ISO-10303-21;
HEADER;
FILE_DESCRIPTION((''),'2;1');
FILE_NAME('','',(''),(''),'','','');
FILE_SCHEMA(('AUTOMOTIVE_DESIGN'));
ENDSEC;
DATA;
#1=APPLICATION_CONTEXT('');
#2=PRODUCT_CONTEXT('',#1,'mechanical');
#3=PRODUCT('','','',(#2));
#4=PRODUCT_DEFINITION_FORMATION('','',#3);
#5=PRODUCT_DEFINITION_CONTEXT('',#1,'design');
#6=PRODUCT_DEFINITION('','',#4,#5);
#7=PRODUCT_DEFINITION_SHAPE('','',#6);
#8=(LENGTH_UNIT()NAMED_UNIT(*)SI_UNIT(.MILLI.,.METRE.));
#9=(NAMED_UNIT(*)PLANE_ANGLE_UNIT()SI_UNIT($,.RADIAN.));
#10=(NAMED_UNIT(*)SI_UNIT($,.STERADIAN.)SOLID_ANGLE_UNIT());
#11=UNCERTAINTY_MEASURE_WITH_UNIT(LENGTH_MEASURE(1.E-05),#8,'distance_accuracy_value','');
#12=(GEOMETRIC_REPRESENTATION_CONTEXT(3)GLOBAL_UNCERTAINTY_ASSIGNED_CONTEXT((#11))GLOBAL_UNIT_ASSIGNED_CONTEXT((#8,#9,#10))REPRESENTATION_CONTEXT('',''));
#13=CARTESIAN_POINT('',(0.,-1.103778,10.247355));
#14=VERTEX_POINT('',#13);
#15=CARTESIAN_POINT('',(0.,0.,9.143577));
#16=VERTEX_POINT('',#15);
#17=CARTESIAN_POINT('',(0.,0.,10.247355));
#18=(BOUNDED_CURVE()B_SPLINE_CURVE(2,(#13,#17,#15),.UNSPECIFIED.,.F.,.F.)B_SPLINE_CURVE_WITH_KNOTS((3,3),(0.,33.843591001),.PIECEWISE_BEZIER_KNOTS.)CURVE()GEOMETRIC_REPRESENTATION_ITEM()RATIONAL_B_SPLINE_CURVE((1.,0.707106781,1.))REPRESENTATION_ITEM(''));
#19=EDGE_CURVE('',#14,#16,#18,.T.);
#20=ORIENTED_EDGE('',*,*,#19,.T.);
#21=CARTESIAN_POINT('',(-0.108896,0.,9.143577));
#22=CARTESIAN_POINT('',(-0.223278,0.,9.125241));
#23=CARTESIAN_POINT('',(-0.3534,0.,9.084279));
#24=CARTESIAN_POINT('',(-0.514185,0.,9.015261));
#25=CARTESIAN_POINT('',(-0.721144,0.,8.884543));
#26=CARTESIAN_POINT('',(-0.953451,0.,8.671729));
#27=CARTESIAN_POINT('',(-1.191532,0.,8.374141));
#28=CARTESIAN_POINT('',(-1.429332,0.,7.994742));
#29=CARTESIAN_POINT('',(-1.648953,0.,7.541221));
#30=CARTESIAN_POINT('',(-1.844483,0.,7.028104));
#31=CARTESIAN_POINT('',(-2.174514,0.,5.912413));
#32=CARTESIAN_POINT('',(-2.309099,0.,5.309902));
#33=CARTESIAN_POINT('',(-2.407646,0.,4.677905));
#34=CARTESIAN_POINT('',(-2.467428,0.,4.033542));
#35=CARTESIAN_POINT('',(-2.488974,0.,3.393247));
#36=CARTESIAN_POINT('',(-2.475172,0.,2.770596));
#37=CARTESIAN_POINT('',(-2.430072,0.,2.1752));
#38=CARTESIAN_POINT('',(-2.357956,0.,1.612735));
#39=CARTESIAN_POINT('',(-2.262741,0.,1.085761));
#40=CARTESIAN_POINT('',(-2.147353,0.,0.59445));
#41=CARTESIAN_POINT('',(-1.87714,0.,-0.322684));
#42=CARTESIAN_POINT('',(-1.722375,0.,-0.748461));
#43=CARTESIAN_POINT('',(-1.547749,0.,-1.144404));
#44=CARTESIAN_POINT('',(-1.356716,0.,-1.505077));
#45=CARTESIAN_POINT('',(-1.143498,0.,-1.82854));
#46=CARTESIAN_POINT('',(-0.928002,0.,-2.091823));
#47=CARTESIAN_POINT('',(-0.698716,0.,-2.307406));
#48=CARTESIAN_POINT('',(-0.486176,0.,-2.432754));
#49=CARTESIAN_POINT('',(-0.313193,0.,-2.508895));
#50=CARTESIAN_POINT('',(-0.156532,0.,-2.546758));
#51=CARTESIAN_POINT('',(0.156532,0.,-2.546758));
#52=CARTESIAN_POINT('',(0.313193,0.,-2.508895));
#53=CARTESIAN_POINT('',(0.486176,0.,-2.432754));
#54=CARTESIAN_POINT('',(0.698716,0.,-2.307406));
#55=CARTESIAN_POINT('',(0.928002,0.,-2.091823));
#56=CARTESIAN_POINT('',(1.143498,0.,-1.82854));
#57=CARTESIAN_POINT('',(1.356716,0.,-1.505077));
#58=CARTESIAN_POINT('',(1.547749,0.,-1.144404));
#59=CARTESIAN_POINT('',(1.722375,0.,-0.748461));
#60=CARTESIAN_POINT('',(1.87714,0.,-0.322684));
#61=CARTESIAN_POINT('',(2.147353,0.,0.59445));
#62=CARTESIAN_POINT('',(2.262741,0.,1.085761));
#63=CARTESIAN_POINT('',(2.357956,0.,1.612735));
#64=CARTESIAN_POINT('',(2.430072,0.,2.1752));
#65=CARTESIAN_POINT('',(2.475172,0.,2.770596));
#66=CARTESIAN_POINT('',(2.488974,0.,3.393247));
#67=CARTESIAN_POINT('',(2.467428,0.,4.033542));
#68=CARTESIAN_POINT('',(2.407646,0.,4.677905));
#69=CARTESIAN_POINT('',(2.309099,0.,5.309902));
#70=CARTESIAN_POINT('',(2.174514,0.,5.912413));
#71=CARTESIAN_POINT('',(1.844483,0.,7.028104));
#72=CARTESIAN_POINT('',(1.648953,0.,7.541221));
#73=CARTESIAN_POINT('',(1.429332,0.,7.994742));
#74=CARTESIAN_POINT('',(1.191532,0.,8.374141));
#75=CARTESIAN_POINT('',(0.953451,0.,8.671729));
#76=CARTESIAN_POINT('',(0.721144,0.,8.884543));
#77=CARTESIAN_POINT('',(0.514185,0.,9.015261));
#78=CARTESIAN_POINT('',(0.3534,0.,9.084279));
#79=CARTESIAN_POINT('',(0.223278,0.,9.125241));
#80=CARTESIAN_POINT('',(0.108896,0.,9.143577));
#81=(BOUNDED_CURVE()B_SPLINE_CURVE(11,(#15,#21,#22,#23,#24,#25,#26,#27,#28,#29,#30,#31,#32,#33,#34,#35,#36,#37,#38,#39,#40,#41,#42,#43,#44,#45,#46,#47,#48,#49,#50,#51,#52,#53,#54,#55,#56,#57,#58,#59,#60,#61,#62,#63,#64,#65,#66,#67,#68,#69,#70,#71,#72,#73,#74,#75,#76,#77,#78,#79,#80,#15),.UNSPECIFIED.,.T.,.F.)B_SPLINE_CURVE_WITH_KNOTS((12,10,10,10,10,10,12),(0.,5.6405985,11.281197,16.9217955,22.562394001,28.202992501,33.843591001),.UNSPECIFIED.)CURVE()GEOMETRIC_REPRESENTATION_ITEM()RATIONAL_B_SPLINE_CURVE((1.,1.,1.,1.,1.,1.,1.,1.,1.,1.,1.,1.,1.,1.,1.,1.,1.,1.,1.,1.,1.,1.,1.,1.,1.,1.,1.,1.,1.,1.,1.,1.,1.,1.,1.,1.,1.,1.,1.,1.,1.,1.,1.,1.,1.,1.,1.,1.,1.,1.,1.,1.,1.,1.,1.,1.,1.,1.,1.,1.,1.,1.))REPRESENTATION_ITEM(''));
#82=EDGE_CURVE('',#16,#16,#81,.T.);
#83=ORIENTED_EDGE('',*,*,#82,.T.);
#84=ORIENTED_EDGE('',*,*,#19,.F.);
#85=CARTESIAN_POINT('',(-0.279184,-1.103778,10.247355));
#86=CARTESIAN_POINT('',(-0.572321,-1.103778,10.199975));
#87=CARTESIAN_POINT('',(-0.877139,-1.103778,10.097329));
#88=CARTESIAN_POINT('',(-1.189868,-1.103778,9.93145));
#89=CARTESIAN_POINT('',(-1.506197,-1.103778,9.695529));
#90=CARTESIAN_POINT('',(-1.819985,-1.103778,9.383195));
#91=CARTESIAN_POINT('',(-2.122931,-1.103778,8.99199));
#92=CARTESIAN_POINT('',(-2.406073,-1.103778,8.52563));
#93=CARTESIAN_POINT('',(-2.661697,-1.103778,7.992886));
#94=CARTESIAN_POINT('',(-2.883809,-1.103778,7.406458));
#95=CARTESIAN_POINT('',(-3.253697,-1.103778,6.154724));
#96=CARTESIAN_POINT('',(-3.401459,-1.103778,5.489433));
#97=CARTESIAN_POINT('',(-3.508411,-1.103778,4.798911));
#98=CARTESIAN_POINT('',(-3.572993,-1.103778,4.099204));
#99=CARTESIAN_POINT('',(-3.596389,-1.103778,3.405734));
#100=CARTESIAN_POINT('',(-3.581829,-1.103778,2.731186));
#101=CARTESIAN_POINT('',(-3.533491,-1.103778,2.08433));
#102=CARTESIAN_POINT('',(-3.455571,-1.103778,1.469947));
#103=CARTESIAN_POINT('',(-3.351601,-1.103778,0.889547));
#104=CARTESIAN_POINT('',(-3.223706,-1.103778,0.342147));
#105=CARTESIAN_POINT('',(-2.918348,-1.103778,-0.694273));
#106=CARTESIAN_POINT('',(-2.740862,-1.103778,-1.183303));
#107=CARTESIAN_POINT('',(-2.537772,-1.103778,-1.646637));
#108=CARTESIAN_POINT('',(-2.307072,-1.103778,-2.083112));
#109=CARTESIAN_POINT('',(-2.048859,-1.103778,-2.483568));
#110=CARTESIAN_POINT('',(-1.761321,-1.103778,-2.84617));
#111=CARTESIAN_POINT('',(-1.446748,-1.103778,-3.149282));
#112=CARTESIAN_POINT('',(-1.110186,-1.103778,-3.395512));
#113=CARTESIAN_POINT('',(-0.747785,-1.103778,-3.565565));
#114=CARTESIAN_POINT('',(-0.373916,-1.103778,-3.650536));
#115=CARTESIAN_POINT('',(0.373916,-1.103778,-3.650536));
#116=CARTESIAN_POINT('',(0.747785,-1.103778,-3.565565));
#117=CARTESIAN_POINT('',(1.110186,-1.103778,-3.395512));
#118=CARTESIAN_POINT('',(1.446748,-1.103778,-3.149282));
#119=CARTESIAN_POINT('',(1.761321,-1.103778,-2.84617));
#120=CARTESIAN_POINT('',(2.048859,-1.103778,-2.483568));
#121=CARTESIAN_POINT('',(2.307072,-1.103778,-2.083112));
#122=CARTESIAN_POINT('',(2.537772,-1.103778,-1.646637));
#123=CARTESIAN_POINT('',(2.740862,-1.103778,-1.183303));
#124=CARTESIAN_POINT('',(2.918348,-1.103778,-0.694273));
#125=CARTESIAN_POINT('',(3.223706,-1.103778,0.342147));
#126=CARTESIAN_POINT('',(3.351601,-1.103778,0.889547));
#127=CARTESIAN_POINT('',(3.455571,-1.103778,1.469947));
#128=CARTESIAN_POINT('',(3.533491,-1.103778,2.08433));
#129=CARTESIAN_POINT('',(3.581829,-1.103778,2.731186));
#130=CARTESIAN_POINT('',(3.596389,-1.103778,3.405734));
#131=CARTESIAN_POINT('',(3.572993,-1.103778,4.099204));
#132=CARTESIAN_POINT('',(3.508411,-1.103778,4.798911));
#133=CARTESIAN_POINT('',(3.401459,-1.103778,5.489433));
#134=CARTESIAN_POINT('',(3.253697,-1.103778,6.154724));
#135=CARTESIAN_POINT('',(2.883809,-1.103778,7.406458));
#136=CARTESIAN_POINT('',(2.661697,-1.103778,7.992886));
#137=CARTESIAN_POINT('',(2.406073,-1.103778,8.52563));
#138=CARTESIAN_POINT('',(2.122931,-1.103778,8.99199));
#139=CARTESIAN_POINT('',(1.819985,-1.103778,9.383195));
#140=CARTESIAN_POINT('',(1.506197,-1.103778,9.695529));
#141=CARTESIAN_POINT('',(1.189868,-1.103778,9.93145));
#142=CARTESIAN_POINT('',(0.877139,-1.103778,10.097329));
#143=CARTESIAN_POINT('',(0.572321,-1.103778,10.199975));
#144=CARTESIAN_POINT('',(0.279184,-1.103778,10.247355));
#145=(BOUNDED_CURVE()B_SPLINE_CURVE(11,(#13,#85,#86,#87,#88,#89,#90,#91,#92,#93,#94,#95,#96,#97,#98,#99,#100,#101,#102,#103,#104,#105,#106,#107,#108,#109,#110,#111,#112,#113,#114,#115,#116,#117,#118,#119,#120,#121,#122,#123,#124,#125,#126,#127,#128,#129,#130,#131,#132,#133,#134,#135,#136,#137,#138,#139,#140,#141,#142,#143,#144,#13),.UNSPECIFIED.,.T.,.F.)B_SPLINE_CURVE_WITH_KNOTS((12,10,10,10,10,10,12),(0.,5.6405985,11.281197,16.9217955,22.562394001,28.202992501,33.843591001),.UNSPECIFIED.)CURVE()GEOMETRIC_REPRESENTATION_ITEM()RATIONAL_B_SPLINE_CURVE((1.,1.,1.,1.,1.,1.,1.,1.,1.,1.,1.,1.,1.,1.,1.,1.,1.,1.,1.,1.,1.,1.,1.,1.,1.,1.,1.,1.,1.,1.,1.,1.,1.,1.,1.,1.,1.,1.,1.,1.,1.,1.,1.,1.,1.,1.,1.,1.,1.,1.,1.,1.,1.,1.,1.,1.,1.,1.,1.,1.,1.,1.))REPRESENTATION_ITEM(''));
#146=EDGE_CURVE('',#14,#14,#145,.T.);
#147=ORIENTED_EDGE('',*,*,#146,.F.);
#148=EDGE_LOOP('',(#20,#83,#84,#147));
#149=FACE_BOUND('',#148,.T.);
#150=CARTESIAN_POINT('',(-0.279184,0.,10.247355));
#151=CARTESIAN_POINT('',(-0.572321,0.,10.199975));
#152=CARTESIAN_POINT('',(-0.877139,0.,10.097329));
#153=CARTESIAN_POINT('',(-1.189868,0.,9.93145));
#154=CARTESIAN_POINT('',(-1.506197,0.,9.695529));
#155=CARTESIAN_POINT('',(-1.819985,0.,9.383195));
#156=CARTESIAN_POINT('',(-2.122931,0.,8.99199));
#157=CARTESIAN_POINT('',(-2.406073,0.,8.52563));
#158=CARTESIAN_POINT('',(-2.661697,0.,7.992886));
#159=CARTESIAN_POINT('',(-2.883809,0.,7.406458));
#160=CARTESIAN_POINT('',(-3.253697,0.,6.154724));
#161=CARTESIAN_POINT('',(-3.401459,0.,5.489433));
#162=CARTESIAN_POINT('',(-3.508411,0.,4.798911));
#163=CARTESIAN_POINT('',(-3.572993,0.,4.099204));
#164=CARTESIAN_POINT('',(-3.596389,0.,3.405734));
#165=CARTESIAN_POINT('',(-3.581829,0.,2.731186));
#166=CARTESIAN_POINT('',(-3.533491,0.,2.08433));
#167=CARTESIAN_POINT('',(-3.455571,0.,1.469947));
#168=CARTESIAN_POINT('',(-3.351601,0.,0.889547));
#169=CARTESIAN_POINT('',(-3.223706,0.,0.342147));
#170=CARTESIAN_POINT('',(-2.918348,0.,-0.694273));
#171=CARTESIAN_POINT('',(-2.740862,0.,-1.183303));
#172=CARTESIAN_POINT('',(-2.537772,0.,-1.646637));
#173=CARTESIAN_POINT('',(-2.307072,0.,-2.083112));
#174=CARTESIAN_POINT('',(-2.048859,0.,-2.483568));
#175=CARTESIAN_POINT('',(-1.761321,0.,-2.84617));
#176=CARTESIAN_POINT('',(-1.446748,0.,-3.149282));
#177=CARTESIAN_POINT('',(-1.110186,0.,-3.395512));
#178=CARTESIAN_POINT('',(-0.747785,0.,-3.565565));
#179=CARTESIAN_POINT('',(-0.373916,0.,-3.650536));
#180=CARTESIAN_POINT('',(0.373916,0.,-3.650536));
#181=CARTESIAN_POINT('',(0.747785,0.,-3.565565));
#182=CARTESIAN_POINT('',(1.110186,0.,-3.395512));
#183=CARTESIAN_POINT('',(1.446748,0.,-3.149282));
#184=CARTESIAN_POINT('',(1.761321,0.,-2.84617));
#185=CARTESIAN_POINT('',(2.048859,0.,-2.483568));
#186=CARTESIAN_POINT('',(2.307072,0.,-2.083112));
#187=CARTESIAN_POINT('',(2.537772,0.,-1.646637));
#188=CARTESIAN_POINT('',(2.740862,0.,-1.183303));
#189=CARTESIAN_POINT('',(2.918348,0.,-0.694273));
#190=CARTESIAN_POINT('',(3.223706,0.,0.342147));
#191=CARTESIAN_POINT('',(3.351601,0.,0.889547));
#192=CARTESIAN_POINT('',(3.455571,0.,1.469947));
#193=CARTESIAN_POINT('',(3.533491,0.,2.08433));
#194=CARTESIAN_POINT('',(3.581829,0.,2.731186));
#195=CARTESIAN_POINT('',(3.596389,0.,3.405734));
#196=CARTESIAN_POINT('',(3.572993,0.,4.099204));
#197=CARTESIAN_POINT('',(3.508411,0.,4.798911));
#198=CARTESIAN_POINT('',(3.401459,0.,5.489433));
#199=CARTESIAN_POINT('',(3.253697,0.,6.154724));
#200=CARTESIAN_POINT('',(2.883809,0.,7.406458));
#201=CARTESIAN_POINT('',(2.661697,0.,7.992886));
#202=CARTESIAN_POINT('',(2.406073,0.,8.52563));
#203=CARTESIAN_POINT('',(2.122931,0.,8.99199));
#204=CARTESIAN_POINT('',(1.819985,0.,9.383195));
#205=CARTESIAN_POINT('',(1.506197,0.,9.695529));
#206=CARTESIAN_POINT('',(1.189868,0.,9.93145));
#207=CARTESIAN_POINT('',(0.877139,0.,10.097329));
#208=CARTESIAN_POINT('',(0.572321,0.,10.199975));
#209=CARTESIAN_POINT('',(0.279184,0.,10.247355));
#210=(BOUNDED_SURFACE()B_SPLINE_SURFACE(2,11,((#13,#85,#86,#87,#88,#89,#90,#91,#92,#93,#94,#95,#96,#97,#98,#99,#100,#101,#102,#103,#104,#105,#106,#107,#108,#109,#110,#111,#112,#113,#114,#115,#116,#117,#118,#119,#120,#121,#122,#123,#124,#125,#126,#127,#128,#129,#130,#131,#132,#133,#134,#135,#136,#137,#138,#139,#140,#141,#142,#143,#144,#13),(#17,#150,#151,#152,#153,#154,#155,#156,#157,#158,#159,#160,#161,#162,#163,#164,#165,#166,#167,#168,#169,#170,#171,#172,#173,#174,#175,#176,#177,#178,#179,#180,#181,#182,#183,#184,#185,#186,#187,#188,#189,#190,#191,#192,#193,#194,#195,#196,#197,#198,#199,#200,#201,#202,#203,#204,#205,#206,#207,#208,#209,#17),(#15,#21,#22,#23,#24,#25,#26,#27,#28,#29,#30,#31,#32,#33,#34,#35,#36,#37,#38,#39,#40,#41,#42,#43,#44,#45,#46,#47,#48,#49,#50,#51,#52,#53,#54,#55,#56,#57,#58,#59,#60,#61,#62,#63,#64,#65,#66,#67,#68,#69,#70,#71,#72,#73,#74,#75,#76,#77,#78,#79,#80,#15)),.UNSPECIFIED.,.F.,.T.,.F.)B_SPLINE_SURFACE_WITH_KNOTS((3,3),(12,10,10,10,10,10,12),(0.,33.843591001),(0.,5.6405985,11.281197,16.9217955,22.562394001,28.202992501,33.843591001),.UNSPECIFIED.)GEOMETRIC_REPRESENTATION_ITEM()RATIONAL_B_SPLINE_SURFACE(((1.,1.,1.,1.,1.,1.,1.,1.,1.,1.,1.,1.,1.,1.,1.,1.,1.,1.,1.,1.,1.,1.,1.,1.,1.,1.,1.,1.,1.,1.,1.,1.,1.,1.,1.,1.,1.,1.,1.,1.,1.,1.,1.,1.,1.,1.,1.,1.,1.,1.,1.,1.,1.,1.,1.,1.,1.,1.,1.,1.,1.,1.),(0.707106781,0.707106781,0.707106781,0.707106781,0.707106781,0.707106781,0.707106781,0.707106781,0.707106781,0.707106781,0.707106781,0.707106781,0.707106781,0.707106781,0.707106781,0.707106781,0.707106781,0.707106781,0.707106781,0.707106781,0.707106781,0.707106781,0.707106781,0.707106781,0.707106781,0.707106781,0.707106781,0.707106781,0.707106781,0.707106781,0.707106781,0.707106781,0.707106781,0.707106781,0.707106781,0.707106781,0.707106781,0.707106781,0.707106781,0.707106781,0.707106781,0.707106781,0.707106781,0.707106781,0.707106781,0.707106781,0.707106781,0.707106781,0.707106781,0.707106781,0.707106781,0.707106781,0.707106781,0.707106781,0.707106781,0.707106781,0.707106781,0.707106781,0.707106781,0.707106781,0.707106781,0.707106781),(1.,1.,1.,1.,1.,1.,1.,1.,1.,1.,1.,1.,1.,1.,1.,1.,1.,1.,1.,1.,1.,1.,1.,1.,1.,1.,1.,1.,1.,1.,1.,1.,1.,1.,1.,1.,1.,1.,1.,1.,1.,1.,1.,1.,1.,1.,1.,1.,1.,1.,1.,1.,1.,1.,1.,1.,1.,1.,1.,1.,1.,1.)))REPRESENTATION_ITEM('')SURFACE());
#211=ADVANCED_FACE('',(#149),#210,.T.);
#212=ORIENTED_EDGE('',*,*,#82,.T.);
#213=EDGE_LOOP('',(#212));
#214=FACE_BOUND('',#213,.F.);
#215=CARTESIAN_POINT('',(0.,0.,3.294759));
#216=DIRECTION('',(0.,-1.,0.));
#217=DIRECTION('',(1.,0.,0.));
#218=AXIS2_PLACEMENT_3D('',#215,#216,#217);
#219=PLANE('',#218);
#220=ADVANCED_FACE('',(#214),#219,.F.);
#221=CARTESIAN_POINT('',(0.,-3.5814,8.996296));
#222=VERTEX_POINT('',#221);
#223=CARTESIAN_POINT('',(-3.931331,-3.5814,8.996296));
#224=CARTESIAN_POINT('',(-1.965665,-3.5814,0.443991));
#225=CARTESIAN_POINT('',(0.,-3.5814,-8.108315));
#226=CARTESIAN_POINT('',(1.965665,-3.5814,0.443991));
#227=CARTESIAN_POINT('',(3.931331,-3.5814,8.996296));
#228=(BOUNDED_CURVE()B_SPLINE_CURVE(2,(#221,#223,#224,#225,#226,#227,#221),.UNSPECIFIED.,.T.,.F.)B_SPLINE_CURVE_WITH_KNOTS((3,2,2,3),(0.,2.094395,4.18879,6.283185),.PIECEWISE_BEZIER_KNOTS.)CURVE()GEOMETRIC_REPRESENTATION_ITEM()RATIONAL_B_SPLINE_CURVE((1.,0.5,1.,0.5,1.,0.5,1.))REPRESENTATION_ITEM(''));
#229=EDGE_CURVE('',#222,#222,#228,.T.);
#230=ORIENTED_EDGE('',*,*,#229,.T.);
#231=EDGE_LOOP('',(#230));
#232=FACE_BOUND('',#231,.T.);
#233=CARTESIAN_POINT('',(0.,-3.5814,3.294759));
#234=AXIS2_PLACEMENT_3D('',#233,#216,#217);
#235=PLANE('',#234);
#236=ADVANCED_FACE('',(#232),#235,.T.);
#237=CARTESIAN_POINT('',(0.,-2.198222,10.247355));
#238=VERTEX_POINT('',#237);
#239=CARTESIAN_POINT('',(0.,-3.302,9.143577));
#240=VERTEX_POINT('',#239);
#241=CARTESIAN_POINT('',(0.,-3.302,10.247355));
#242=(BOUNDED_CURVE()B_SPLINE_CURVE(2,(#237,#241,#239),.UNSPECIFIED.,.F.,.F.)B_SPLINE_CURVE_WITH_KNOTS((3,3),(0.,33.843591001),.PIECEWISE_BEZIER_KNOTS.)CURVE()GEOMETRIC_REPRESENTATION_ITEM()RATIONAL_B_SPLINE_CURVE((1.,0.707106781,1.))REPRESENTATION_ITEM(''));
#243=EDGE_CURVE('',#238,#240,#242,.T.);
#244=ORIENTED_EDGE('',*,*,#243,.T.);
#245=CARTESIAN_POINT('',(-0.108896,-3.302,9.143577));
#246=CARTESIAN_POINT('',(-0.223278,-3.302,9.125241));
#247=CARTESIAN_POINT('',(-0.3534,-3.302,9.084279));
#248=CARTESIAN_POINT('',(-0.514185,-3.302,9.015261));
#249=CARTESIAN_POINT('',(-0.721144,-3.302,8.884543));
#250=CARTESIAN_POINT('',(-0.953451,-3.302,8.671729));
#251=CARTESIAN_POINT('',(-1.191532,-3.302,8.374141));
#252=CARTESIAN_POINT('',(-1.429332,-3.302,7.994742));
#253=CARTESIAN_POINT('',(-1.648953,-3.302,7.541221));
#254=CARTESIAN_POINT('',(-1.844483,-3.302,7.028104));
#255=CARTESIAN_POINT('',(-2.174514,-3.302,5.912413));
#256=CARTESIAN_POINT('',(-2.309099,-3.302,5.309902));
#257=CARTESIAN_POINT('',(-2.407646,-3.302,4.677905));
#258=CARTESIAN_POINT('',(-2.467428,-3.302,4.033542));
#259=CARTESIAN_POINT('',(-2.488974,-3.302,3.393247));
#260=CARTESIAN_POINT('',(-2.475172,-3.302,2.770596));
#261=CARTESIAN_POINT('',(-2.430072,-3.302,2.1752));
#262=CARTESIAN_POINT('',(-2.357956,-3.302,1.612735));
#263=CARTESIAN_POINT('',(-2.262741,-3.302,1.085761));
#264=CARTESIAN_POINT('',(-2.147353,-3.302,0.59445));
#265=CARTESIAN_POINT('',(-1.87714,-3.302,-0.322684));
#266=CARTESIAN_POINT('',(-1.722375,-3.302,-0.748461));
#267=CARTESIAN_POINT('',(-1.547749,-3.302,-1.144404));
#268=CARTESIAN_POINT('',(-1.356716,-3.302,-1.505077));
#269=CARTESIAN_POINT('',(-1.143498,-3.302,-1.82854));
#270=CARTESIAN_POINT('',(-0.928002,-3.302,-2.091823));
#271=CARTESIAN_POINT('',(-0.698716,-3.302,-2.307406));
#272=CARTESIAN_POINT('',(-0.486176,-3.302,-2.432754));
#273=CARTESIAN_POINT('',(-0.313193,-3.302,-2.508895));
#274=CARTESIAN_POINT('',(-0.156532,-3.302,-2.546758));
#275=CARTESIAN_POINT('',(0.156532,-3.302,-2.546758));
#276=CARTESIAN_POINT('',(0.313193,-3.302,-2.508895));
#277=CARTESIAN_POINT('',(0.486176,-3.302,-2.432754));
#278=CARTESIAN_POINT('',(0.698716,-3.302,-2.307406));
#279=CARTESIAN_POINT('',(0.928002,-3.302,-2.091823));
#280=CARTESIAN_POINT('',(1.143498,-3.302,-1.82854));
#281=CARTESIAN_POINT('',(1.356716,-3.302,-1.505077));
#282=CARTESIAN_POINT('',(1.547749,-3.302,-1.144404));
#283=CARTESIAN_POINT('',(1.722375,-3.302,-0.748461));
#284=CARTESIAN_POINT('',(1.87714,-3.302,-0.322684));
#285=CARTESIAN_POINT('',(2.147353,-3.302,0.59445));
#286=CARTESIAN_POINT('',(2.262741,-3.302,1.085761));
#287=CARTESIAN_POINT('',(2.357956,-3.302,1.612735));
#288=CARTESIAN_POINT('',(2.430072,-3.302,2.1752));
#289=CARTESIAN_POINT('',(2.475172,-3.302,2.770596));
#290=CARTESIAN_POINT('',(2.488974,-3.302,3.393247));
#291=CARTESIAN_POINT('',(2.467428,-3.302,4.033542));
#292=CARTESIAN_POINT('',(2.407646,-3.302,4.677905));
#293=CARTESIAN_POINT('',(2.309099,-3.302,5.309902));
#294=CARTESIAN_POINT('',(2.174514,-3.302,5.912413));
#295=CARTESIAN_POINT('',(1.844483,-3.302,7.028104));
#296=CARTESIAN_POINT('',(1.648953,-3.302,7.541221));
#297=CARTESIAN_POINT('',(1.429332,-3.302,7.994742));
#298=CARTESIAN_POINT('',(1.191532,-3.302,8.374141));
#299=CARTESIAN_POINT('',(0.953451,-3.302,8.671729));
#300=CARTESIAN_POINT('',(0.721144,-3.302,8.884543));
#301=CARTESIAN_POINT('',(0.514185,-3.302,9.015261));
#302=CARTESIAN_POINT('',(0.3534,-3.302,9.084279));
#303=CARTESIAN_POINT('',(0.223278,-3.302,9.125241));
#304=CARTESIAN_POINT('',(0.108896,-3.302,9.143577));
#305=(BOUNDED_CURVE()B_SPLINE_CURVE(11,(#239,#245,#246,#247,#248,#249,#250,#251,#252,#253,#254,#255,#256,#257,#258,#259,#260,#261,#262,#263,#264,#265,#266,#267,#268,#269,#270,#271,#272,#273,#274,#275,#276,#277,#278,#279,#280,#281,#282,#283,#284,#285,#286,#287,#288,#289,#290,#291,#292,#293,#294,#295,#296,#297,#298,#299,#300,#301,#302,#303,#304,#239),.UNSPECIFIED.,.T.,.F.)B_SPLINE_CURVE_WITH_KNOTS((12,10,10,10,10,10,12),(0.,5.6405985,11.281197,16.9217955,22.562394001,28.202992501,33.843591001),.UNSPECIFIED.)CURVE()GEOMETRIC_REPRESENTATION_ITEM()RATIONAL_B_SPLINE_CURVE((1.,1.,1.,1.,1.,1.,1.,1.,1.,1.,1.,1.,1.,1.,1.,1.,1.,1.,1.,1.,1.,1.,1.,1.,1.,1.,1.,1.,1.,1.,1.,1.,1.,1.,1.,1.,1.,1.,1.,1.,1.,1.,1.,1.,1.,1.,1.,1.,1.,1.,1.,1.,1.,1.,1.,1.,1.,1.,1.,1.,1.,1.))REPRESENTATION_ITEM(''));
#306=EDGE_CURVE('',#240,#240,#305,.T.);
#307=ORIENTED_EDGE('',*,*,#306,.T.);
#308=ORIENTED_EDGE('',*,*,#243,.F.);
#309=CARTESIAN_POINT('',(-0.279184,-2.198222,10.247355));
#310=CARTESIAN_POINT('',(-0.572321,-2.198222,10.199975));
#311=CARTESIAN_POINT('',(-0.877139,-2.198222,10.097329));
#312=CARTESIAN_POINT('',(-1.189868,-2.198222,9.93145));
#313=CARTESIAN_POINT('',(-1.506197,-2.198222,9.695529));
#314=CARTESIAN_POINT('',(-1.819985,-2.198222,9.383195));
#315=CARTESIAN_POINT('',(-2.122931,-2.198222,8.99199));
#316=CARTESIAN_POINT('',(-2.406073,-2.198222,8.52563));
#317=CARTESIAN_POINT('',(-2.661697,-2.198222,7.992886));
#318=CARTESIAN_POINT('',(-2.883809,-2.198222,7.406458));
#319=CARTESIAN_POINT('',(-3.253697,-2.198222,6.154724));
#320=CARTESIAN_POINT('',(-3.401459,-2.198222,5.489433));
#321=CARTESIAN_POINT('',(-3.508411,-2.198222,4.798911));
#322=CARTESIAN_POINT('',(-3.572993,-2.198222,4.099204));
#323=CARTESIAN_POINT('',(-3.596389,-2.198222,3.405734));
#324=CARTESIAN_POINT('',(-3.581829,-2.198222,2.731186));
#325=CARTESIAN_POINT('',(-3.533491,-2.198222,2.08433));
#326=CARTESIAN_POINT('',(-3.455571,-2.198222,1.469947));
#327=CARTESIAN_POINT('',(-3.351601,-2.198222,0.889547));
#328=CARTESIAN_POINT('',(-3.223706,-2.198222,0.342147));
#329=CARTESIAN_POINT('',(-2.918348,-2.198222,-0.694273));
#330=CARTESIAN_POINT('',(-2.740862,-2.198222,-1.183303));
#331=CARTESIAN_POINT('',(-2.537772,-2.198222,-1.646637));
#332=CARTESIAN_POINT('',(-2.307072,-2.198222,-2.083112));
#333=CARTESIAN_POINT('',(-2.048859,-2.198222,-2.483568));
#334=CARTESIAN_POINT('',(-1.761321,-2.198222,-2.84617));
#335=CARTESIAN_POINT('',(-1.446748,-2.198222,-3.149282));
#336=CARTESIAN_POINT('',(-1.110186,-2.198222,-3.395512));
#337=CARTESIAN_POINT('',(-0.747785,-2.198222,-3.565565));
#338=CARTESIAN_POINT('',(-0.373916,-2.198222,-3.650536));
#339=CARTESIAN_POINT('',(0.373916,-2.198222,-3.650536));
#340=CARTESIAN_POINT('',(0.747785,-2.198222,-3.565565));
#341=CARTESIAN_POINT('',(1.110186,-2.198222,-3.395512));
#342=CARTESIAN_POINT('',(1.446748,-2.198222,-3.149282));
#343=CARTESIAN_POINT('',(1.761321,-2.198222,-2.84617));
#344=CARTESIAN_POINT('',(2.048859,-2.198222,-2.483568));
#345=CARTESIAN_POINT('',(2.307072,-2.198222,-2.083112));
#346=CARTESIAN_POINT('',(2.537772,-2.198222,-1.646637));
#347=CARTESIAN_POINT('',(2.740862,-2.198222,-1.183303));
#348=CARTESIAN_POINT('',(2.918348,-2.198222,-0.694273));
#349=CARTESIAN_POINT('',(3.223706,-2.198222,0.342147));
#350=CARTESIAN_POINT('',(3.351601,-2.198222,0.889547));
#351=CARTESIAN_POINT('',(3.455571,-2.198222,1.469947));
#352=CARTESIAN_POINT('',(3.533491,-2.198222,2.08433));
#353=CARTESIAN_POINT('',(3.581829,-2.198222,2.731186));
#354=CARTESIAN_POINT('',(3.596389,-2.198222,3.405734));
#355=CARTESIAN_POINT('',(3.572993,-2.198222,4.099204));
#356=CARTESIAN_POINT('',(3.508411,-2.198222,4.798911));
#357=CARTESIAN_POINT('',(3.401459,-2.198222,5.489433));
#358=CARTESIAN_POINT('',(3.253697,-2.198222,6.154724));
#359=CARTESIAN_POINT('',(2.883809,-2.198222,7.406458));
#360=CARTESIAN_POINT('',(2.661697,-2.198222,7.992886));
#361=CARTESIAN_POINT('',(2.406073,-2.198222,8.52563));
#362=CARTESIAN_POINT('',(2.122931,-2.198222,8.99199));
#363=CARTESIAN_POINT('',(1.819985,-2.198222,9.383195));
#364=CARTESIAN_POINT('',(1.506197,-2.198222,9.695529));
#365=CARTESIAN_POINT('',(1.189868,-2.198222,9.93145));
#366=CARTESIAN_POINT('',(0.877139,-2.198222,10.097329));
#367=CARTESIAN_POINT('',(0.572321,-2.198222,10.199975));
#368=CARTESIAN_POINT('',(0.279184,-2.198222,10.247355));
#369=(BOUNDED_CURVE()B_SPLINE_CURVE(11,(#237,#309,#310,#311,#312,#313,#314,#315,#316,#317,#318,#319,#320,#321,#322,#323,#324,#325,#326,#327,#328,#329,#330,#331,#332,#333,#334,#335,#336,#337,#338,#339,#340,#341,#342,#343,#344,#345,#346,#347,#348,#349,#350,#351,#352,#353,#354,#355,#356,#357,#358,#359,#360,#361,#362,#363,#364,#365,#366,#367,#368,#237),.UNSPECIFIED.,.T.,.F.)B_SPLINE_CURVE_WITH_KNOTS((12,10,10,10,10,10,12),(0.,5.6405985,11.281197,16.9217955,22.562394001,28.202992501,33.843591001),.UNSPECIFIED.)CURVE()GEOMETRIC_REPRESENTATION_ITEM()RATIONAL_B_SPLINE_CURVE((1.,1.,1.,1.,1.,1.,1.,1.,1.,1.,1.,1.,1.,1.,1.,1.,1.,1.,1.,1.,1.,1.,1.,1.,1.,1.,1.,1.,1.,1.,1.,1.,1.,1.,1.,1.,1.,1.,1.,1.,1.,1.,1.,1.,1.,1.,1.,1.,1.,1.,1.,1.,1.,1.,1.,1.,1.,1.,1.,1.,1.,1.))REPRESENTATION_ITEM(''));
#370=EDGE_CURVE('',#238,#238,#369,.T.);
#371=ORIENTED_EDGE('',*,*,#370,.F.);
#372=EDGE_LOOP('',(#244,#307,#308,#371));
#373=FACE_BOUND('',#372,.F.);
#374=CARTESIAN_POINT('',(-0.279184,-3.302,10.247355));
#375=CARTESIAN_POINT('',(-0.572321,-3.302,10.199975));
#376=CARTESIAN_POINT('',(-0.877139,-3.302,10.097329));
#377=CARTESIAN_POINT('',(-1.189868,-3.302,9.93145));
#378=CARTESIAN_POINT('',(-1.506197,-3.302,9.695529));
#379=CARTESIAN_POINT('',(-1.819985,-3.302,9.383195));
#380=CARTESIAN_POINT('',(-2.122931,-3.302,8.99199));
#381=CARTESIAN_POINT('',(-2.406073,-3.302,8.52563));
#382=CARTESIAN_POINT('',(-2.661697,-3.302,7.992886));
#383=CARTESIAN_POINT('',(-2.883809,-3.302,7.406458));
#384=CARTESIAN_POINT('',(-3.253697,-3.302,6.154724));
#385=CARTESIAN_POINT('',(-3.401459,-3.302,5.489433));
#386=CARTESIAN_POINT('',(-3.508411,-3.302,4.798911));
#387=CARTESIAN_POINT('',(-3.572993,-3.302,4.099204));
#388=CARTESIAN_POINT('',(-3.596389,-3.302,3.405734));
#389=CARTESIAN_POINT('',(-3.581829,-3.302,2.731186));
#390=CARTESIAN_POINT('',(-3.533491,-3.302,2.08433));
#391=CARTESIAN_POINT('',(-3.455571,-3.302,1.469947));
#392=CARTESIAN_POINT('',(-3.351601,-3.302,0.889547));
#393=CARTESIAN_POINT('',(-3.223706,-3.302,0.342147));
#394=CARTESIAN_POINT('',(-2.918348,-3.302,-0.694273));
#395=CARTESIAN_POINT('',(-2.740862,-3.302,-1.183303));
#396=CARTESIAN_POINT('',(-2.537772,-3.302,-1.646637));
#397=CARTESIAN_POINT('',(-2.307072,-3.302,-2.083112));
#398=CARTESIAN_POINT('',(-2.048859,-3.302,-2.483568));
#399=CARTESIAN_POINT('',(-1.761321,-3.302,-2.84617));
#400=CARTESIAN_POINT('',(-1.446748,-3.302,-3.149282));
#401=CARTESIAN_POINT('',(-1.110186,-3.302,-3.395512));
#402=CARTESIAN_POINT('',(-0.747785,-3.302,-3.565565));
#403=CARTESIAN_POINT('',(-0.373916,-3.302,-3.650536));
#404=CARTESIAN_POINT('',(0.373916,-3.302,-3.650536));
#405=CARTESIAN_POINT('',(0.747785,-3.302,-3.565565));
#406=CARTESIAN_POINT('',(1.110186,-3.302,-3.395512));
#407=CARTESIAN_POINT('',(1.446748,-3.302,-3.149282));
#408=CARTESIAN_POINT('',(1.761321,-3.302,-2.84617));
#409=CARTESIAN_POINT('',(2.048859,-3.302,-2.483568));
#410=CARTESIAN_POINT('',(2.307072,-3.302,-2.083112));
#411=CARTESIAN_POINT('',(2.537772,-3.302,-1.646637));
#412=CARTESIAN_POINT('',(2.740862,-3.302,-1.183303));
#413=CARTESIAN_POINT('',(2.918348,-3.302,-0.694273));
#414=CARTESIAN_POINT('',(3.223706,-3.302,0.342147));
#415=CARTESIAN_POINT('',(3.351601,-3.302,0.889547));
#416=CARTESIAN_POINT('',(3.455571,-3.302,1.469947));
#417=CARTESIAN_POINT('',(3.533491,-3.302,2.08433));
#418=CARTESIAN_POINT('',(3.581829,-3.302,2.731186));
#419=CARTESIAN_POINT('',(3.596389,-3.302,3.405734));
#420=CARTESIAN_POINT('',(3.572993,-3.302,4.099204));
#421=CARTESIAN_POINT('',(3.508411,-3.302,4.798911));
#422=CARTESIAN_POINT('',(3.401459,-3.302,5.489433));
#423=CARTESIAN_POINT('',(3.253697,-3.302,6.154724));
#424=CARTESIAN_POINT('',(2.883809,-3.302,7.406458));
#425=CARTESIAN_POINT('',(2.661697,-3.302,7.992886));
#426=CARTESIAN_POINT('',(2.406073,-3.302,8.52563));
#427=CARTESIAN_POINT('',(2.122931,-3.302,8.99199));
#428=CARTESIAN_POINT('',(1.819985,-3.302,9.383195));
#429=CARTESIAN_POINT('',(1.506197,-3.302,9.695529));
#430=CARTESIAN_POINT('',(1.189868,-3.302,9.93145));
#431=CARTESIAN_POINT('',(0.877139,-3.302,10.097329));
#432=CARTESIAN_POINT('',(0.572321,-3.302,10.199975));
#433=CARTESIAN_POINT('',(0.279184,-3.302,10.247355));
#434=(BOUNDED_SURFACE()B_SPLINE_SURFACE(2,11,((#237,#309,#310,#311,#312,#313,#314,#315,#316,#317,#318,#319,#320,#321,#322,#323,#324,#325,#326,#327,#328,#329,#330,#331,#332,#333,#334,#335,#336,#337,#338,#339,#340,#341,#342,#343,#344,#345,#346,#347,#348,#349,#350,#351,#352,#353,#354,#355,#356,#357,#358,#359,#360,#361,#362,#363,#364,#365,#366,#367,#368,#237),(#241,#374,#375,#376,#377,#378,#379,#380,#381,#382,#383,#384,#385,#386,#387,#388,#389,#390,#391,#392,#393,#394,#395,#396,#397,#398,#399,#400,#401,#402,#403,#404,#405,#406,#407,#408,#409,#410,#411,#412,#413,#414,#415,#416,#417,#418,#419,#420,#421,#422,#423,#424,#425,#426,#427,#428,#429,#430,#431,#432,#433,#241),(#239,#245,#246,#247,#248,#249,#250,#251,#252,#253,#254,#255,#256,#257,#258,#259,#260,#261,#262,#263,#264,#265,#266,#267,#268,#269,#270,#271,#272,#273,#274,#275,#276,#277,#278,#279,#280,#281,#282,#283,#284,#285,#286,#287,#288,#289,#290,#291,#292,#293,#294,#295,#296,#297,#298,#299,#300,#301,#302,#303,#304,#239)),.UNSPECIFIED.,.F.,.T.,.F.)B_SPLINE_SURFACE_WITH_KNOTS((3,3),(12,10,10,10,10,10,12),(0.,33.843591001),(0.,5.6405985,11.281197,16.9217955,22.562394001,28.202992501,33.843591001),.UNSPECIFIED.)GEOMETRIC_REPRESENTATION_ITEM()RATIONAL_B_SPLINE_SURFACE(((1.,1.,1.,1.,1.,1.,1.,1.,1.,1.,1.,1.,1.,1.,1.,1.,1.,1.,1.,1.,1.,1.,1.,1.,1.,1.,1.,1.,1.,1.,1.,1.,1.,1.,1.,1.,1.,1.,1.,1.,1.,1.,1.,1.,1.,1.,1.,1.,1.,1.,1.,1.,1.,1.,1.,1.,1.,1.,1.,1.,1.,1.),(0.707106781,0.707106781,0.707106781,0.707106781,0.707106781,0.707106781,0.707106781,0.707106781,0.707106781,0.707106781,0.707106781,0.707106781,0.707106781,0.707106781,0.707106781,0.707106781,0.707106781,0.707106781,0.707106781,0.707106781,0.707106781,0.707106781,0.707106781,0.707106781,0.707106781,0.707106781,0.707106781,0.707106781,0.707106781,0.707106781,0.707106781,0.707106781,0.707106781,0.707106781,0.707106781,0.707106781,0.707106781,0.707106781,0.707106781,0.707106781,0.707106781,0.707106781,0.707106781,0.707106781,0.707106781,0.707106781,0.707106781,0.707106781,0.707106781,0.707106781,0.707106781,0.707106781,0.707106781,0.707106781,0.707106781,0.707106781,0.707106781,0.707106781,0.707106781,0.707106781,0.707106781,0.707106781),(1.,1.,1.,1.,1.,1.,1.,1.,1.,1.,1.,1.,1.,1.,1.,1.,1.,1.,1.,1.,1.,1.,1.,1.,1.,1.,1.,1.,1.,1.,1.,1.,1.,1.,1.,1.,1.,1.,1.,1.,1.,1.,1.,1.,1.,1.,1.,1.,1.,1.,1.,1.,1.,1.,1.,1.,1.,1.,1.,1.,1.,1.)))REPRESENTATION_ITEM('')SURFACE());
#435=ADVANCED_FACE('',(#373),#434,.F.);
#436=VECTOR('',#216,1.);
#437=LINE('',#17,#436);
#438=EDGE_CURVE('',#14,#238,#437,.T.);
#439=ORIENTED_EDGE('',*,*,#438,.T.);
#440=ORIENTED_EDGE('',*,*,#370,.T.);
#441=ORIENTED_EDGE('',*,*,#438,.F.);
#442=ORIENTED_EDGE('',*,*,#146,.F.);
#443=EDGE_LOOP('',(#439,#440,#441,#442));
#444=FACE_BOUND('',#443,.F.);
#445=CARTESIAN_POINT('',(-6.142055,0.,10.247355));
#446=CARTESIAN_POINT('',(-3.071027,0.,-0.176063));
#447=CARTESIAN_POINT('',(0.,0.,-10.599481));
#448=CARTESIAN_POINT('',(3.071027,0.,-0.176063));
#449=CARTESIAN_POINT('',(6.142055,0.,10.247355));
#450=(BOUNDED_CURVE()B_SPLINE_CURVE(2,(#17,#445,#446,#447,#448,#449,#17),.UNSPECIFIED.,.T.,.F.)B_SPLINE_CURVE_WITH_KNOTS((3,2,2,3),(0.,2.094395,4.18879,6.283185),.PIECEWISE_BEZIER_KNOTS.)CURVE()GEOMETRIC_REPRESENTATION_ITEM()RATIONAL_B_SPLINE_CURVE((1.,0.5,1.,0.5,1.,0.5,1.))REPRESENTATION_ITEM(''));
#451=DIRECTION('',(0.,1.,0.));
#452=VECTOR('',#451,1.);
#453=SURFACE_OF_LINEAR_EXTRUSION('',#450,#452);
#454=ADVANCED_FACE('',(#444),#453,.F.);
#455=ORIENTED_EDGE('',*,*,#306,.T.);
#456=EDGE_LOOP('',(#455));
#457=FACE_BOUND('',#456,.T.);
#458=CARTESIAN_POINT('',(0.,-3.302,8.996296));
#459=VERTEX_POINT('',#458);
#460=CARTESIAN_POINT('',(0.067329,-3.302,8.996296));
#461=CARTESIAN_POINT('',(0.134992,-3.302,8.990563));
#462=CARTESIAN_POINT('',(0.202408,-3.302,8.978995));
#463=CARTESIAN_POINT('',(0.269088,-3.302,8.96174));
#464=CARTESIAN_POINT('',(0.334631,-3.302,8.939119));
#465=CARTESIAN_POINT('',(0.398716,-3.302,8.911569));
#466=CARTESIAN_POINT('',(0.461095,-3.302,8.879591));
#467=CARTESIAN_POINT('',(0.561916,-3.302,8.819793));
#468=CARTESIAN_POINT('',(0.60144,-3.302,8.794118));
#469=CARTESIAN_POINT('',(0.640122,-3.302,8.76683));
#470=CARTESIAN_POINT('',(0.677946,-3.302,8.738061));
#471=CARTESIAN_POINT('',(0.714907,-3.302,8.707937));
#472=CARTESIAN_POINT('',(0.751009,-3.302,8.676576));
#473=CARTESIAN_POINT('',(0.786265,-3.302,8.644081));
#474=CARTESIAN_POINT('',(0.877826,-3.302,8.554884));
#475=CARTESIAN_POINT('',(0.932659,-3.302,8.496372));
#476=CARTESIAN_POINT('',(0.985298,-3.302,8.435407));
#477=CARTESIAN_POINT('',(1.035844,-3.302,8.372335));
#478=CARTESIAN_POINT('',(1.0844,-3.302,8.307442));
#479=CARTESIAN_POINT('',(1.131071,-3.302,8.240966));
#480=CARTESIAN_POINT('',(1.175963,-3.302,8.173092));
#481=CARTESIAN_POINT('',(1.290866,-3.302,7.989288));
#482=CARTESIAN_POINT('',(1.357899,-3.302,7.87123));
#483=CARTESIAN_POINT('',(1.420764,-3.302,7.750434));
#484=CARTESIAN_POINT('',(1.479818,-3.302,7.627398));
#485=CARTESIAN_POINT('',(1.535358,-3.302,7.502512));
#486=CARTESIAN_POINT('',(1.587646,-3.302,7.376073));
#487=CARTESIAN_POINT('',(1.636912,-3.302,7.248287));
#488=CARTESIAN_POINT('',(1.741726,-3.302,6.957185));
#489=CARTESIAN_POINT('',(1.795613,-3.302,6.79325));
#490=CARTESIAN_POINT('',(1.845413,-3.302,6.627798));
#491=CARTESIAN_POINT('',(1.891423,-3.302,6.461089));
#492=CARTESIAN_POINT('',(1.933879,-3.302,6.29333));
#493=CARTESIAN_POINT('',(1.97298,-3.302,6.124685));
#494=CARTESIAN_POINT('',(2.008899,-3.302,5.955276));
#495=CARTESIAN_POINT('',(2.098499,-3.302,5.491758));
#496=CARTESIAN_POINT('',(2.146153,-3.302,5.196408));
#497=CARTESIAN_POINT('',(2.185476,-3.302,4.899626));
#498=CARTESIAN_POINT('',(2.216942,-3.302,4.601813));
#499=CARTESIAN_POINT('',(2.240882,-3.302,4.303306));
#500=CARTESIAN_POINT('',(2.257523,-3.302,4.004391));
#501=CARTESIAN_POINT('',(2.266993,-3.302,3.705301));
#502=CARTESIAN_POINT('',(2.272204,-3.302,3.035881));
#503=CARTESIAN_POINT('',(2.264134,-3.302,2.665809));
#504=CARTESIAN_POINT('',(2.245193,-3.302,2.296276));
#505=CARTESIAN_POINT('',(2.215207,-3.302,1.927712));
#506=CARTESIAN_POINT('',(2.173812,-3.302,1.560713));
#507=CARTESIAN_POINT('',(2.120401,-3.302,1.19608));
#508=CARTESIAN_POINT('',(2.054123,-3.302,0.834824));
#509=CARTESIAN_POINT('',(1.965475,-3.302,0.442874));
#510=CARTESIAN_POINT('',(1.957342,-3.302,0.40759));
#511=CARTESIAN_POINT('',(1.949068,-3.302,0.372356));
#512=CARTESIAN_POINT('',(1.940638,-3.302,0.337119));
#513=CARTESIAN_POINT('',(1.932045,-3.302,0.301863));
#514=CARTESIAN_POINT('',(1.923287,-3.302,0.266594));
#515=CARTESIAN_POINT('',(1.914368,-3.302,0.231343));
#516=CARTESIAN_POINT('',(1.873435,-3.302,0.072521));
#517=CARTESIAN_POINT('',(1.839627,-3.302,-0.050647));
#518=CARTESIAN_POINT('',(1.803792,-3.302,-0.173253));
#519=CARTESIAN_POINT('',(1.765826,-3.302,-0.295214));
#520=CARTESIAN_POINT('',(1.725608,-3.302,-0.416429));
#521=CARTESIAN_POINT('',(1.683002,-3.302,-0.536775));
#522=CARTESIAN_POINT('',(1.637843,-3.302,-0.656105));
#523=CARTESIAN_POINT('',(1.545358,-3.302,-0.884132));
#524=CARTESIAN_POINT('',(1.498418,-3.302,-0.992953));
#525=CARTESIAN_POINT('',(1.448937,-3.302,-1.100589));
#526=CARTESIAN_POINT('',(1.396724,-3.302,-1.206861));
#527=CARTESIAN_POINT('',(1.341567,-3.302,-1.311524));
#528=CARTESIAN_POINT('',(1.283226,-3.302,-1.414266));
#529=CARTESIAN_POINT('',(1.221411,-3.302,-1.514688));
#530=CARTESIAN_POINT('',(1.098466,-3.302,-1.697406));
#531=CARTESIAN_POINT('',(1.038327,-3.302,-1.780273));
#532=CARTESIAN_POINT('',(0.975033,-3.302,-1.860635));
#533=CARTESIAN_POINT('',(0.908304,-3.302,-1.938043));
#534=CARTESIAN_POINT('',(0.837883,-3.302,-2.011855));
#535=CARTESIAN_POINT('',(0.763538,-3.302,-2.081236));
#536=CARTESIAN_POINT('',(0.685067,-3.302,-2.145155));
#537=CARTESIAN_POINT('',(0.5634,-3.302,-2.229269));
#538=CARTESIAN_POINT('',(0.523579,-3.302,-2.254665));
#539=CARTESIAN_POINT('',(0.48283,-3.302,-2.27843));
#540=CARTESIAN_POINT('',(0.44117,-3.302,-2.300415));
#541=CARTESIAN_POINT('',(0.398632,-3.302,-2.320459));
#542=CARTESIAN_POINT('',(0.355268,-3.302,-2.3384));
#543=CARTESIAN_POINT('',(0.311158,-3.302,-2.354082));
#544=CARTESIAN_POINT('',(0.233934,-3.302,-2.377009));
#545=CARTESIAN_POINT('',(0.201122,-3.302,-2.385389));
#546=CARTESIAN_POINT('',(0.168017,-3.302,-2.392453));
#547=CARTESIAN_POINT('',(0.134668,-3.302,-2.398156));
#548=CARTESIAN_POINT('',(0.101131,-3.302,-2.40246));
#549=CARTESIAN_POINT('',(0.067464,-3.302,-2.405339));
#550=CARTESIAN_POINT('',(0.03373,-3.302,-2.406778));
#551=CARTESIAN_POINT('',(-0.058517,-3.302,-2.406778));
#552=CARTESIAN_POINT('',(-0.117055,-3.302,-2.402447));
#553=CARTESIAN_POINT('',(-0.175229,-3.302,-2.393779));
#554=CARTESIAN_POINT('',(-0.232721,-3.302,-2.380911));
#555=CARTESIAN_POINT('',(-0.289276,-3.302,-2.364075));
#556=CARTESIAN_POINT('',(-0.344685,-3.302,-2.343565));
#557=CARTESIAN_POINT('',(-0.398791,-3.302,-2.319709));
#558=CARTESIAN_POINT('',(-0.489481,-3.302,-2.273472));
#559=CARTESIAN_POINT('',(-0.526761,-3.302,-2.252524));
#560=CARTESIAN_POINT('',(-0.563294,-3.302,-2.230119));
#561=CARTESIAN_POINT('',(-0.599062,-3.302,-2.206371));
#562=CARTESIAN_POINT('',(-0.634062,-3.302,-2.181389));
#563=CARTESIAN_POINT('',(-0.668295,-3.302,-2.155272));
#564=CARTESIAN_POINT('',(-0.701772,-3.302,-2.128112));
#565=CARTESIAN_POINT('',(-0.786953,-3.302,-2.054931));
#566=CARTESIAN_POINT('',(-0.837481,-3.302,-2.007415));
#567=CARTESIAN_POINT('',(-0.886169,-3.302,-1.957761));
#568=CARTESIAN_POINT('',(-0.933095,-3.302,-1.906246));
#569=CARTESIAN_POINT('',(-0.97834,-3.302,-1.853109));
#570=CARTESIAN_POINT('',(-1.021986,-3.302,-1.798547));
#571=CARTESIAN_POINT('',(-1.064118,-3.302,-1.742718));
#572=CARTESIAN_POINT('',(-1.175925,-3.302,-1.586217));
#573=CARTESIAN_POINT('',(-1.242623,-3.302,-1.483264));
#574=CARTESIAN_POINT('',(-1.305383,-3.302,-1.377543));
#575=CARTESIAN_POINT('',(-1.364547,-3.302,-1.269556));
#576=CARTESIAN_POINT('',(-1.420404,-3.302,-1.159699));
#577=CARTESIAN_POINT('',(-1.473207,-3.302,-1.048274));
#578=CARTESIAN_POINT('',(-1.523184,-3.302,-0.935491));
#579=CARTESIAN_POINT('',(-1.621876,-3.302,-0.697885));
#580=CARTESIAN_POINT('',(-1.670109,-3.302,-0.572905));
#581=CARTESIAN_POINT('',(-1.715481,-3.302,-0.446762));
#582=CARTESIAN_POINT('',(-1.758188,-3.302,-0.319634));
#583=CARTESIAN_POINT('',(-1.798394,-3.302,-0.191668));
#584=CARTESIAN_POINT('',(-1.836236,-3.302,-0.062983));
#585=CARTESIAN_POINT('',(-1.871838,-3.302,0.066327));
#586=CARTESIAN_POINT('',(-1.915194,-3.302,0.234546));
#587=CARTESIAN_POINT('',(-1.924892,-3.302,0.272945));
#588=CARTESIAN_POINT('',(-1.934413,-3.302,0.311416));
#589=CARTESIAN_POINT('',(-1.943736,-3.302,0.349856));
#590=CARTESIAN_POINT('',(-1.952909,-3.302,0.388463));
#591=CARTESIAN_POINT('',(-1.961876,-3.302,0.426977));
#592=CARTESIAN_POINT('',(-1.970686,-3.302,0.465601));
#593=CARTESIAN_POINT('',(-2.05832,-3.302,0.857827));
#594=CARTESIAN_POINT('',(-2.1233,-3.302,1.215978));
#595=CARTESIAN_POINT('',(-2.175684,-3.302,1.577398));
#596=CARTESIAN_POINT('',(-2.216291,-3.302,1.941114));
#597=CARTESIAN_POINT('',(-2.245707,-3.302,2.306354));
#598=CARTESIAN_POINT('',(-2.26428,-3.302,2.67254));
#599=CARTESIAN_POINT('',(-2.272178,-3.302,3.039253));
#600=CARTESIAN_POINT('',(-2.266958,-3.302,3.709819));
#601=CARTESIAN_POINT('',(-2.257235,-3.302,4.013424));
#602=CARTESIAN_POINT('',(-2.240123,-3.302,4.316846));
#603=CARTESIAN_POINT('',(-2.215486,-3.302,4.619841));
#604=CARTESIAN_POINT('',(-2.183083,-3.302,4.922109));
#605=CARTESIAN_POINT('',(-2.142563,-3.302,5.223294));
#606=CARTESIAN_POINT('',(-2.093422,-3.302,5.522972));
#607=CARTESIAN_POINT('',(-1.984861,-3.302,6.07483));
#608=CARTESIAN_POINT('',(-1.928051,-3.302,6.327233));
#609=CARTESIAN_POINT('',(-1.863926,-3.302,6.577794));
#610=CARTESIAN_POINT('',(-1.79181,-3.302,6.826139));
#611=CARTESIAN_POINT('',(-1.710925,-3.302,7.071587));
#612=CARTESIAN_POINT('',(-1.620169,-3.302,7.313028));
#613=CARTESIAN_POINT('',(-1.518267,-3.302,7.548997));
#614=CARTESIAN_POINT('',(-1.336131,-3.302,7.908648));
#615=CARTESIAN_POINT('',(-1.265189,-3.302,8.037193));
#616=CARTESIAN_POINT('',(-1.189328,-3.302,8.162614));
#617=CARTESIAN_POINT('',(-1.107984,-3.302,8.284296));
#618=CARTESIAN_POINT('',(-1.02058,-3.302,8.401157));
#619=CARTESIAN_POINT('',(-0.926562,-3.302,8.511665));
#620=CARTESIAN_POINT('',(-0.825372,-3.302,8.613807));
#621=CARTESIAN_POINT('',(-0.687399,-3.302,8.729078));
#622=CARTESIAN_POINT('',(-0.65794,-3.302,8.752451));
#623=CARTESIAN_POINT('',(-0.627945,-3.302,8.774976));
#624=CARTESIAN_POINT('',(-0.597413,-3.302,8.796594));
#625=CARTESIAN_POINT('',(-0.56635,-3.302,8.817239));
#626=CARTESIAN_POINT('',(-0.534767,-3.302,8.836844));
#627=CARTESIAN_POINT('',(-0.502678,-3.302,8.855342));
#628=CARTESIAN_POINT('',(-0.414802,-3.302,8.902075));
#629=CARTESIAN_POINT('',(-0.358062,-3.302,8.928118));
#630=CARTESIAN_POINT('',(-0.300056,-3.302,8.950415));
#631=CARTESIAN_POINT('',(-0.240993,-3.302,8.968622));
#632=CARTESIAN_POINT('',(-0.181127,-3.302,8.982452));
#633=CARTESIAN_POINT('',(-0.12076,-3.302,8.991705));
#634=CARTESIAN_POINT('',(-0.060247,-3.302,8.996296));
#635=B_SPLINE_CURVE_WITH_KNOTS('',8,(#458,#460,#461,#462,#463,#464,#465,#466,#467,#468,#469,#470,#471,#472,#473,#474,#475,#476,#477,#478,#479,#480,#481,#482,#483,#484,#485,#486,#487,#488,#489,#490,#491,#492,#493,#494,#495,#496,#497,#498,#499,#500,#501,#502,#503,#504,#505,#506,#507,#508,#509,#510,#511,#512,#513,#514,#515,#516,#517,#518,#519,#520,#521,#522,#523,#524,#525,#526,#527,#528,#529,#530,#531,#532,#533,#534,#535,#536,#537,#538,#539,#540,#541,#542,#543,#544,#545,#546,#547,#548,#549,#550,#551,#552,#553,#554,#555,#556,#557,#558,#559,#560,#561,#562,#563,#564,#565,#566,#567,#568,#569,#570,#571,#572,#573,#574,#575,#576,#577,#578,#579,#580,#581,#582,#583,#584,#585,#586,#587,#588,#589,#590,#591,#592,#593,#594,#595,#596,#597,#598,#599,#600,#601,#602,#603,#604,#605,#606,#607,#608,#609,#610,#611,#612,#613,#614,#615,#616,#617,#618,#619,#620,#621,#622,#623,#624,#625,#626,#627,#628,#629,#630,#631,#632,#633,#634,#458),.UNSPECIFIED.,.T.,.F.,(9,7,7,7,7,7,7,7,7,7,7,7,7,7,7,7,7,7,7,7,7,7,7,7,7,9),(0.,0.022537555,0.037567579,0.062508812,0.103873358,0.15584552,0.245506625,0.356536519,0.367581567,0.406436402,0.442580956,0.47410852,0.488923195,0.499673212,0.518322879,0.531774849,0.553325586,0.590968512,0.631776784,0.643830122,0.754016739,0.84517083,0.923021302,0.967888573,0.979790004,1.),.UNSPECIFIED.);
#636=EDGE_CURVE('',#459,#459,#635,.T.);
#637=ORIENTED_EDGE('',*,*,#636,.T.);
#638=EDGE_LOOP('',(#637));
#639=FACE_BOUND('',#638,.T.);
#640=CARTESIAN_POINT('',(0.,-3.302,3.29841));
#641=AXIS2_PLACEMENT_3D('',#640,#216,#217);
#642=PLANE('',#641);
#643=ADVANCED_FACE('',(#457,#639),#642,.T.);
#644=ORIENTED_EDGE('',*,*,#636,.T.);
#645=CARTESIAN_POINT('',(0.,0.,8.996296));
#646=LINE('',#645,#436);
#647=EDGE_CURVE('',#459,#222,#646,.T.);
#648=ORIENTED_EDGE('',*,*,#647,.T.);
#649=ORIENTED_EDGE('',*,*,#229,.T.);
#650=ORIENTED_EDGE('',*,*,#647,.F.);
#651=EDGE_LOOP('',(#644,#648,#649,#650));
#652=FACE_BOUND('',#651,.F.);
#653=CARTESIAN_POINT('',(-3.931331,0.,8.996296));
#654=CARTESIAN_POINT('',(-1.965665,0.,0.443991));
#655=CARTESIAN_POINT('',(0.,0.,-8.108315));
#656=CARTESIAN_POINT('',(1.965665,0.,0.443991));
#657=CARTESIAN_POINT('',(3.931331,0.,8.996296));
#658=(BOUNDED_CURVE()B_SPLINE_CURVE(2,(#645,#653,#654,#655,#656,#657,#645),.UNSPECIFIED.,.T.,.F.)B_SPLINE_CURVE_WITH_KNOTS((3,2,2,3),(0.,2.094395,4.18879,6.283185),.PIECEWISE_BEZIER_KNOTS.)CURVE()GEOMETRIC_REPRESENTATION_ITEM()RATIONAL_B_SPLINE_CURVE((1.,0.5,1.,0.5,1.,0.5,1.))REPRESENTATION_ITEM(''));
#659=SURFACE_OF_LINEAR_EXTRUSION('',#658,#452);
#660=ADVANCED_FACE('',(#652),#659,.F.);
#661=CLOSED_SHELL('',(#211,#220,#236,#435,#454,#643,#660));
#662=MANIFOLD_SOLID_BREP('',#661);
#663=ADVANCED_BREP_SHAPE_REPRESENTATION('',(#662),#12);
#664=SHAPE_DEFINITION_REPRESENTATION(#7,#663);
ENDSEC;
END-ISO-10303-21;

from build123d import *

# Parameters (mm, degrees)
F1_DEPTH = 3.302
F2_R     = 1.103778
F4_DEPTH = 3.5814


with BuildPart() as f1:
    # F0 (on Front) → F1 (new body)
    with BuildSketch(Plane.XZ):
        with BuildLine():
            add(Edge.make_bspline(
                [(0, 10.247355), (-6.142055, 10.247355), (-3.071027, -0.176063), (0, -10.599481), (3.071027, -0.176063), (6.142055, 10.247355), (0, 10.247355)],
                knots=[0, 0, 0, 2.094395, 2.094395, 4.18879, 4.18879, 6.283185, 6.283185, 6.283185], degree=2, weights=[1, 0.5, 1, 0.5, 1, 0.5, 1]))
        make_face()
    extrude(amount=F1_DEPTH)

    # F2
    f2_edges = [f1.edges().sort_by_distance(p)[0] for p in [
        (-1e-06, -3.302, -3.650535),
        (-1e-06, 0, -3.650535),
    ]]
    fillet(f2_edges, radius=F2_R)

    # F3 (on Front) → F4 (join)
    with BuildSketch(Plane.XZ):
        with BuildLine():
            add(Edge.make_bspline(
                [(0, 8.996296), (-3.931331, 8.996296), (-1.965665, 0.443991), (0, -8.108315), (1.965665, 0.443991), (3.931331, 8.996296), (0, 8.996296)],
                knots=[0, 0, 0, 2.094395, 2.094395, 4.18879, 4.18879, 6.283185, 6.283185, 6.283185], degree=2, weights=[1, 0.5, 1, 0.5, 1, 0.5, 1]))
        make_face()
    extrude(amount=F4_DEPTH)


solid = f1.part
